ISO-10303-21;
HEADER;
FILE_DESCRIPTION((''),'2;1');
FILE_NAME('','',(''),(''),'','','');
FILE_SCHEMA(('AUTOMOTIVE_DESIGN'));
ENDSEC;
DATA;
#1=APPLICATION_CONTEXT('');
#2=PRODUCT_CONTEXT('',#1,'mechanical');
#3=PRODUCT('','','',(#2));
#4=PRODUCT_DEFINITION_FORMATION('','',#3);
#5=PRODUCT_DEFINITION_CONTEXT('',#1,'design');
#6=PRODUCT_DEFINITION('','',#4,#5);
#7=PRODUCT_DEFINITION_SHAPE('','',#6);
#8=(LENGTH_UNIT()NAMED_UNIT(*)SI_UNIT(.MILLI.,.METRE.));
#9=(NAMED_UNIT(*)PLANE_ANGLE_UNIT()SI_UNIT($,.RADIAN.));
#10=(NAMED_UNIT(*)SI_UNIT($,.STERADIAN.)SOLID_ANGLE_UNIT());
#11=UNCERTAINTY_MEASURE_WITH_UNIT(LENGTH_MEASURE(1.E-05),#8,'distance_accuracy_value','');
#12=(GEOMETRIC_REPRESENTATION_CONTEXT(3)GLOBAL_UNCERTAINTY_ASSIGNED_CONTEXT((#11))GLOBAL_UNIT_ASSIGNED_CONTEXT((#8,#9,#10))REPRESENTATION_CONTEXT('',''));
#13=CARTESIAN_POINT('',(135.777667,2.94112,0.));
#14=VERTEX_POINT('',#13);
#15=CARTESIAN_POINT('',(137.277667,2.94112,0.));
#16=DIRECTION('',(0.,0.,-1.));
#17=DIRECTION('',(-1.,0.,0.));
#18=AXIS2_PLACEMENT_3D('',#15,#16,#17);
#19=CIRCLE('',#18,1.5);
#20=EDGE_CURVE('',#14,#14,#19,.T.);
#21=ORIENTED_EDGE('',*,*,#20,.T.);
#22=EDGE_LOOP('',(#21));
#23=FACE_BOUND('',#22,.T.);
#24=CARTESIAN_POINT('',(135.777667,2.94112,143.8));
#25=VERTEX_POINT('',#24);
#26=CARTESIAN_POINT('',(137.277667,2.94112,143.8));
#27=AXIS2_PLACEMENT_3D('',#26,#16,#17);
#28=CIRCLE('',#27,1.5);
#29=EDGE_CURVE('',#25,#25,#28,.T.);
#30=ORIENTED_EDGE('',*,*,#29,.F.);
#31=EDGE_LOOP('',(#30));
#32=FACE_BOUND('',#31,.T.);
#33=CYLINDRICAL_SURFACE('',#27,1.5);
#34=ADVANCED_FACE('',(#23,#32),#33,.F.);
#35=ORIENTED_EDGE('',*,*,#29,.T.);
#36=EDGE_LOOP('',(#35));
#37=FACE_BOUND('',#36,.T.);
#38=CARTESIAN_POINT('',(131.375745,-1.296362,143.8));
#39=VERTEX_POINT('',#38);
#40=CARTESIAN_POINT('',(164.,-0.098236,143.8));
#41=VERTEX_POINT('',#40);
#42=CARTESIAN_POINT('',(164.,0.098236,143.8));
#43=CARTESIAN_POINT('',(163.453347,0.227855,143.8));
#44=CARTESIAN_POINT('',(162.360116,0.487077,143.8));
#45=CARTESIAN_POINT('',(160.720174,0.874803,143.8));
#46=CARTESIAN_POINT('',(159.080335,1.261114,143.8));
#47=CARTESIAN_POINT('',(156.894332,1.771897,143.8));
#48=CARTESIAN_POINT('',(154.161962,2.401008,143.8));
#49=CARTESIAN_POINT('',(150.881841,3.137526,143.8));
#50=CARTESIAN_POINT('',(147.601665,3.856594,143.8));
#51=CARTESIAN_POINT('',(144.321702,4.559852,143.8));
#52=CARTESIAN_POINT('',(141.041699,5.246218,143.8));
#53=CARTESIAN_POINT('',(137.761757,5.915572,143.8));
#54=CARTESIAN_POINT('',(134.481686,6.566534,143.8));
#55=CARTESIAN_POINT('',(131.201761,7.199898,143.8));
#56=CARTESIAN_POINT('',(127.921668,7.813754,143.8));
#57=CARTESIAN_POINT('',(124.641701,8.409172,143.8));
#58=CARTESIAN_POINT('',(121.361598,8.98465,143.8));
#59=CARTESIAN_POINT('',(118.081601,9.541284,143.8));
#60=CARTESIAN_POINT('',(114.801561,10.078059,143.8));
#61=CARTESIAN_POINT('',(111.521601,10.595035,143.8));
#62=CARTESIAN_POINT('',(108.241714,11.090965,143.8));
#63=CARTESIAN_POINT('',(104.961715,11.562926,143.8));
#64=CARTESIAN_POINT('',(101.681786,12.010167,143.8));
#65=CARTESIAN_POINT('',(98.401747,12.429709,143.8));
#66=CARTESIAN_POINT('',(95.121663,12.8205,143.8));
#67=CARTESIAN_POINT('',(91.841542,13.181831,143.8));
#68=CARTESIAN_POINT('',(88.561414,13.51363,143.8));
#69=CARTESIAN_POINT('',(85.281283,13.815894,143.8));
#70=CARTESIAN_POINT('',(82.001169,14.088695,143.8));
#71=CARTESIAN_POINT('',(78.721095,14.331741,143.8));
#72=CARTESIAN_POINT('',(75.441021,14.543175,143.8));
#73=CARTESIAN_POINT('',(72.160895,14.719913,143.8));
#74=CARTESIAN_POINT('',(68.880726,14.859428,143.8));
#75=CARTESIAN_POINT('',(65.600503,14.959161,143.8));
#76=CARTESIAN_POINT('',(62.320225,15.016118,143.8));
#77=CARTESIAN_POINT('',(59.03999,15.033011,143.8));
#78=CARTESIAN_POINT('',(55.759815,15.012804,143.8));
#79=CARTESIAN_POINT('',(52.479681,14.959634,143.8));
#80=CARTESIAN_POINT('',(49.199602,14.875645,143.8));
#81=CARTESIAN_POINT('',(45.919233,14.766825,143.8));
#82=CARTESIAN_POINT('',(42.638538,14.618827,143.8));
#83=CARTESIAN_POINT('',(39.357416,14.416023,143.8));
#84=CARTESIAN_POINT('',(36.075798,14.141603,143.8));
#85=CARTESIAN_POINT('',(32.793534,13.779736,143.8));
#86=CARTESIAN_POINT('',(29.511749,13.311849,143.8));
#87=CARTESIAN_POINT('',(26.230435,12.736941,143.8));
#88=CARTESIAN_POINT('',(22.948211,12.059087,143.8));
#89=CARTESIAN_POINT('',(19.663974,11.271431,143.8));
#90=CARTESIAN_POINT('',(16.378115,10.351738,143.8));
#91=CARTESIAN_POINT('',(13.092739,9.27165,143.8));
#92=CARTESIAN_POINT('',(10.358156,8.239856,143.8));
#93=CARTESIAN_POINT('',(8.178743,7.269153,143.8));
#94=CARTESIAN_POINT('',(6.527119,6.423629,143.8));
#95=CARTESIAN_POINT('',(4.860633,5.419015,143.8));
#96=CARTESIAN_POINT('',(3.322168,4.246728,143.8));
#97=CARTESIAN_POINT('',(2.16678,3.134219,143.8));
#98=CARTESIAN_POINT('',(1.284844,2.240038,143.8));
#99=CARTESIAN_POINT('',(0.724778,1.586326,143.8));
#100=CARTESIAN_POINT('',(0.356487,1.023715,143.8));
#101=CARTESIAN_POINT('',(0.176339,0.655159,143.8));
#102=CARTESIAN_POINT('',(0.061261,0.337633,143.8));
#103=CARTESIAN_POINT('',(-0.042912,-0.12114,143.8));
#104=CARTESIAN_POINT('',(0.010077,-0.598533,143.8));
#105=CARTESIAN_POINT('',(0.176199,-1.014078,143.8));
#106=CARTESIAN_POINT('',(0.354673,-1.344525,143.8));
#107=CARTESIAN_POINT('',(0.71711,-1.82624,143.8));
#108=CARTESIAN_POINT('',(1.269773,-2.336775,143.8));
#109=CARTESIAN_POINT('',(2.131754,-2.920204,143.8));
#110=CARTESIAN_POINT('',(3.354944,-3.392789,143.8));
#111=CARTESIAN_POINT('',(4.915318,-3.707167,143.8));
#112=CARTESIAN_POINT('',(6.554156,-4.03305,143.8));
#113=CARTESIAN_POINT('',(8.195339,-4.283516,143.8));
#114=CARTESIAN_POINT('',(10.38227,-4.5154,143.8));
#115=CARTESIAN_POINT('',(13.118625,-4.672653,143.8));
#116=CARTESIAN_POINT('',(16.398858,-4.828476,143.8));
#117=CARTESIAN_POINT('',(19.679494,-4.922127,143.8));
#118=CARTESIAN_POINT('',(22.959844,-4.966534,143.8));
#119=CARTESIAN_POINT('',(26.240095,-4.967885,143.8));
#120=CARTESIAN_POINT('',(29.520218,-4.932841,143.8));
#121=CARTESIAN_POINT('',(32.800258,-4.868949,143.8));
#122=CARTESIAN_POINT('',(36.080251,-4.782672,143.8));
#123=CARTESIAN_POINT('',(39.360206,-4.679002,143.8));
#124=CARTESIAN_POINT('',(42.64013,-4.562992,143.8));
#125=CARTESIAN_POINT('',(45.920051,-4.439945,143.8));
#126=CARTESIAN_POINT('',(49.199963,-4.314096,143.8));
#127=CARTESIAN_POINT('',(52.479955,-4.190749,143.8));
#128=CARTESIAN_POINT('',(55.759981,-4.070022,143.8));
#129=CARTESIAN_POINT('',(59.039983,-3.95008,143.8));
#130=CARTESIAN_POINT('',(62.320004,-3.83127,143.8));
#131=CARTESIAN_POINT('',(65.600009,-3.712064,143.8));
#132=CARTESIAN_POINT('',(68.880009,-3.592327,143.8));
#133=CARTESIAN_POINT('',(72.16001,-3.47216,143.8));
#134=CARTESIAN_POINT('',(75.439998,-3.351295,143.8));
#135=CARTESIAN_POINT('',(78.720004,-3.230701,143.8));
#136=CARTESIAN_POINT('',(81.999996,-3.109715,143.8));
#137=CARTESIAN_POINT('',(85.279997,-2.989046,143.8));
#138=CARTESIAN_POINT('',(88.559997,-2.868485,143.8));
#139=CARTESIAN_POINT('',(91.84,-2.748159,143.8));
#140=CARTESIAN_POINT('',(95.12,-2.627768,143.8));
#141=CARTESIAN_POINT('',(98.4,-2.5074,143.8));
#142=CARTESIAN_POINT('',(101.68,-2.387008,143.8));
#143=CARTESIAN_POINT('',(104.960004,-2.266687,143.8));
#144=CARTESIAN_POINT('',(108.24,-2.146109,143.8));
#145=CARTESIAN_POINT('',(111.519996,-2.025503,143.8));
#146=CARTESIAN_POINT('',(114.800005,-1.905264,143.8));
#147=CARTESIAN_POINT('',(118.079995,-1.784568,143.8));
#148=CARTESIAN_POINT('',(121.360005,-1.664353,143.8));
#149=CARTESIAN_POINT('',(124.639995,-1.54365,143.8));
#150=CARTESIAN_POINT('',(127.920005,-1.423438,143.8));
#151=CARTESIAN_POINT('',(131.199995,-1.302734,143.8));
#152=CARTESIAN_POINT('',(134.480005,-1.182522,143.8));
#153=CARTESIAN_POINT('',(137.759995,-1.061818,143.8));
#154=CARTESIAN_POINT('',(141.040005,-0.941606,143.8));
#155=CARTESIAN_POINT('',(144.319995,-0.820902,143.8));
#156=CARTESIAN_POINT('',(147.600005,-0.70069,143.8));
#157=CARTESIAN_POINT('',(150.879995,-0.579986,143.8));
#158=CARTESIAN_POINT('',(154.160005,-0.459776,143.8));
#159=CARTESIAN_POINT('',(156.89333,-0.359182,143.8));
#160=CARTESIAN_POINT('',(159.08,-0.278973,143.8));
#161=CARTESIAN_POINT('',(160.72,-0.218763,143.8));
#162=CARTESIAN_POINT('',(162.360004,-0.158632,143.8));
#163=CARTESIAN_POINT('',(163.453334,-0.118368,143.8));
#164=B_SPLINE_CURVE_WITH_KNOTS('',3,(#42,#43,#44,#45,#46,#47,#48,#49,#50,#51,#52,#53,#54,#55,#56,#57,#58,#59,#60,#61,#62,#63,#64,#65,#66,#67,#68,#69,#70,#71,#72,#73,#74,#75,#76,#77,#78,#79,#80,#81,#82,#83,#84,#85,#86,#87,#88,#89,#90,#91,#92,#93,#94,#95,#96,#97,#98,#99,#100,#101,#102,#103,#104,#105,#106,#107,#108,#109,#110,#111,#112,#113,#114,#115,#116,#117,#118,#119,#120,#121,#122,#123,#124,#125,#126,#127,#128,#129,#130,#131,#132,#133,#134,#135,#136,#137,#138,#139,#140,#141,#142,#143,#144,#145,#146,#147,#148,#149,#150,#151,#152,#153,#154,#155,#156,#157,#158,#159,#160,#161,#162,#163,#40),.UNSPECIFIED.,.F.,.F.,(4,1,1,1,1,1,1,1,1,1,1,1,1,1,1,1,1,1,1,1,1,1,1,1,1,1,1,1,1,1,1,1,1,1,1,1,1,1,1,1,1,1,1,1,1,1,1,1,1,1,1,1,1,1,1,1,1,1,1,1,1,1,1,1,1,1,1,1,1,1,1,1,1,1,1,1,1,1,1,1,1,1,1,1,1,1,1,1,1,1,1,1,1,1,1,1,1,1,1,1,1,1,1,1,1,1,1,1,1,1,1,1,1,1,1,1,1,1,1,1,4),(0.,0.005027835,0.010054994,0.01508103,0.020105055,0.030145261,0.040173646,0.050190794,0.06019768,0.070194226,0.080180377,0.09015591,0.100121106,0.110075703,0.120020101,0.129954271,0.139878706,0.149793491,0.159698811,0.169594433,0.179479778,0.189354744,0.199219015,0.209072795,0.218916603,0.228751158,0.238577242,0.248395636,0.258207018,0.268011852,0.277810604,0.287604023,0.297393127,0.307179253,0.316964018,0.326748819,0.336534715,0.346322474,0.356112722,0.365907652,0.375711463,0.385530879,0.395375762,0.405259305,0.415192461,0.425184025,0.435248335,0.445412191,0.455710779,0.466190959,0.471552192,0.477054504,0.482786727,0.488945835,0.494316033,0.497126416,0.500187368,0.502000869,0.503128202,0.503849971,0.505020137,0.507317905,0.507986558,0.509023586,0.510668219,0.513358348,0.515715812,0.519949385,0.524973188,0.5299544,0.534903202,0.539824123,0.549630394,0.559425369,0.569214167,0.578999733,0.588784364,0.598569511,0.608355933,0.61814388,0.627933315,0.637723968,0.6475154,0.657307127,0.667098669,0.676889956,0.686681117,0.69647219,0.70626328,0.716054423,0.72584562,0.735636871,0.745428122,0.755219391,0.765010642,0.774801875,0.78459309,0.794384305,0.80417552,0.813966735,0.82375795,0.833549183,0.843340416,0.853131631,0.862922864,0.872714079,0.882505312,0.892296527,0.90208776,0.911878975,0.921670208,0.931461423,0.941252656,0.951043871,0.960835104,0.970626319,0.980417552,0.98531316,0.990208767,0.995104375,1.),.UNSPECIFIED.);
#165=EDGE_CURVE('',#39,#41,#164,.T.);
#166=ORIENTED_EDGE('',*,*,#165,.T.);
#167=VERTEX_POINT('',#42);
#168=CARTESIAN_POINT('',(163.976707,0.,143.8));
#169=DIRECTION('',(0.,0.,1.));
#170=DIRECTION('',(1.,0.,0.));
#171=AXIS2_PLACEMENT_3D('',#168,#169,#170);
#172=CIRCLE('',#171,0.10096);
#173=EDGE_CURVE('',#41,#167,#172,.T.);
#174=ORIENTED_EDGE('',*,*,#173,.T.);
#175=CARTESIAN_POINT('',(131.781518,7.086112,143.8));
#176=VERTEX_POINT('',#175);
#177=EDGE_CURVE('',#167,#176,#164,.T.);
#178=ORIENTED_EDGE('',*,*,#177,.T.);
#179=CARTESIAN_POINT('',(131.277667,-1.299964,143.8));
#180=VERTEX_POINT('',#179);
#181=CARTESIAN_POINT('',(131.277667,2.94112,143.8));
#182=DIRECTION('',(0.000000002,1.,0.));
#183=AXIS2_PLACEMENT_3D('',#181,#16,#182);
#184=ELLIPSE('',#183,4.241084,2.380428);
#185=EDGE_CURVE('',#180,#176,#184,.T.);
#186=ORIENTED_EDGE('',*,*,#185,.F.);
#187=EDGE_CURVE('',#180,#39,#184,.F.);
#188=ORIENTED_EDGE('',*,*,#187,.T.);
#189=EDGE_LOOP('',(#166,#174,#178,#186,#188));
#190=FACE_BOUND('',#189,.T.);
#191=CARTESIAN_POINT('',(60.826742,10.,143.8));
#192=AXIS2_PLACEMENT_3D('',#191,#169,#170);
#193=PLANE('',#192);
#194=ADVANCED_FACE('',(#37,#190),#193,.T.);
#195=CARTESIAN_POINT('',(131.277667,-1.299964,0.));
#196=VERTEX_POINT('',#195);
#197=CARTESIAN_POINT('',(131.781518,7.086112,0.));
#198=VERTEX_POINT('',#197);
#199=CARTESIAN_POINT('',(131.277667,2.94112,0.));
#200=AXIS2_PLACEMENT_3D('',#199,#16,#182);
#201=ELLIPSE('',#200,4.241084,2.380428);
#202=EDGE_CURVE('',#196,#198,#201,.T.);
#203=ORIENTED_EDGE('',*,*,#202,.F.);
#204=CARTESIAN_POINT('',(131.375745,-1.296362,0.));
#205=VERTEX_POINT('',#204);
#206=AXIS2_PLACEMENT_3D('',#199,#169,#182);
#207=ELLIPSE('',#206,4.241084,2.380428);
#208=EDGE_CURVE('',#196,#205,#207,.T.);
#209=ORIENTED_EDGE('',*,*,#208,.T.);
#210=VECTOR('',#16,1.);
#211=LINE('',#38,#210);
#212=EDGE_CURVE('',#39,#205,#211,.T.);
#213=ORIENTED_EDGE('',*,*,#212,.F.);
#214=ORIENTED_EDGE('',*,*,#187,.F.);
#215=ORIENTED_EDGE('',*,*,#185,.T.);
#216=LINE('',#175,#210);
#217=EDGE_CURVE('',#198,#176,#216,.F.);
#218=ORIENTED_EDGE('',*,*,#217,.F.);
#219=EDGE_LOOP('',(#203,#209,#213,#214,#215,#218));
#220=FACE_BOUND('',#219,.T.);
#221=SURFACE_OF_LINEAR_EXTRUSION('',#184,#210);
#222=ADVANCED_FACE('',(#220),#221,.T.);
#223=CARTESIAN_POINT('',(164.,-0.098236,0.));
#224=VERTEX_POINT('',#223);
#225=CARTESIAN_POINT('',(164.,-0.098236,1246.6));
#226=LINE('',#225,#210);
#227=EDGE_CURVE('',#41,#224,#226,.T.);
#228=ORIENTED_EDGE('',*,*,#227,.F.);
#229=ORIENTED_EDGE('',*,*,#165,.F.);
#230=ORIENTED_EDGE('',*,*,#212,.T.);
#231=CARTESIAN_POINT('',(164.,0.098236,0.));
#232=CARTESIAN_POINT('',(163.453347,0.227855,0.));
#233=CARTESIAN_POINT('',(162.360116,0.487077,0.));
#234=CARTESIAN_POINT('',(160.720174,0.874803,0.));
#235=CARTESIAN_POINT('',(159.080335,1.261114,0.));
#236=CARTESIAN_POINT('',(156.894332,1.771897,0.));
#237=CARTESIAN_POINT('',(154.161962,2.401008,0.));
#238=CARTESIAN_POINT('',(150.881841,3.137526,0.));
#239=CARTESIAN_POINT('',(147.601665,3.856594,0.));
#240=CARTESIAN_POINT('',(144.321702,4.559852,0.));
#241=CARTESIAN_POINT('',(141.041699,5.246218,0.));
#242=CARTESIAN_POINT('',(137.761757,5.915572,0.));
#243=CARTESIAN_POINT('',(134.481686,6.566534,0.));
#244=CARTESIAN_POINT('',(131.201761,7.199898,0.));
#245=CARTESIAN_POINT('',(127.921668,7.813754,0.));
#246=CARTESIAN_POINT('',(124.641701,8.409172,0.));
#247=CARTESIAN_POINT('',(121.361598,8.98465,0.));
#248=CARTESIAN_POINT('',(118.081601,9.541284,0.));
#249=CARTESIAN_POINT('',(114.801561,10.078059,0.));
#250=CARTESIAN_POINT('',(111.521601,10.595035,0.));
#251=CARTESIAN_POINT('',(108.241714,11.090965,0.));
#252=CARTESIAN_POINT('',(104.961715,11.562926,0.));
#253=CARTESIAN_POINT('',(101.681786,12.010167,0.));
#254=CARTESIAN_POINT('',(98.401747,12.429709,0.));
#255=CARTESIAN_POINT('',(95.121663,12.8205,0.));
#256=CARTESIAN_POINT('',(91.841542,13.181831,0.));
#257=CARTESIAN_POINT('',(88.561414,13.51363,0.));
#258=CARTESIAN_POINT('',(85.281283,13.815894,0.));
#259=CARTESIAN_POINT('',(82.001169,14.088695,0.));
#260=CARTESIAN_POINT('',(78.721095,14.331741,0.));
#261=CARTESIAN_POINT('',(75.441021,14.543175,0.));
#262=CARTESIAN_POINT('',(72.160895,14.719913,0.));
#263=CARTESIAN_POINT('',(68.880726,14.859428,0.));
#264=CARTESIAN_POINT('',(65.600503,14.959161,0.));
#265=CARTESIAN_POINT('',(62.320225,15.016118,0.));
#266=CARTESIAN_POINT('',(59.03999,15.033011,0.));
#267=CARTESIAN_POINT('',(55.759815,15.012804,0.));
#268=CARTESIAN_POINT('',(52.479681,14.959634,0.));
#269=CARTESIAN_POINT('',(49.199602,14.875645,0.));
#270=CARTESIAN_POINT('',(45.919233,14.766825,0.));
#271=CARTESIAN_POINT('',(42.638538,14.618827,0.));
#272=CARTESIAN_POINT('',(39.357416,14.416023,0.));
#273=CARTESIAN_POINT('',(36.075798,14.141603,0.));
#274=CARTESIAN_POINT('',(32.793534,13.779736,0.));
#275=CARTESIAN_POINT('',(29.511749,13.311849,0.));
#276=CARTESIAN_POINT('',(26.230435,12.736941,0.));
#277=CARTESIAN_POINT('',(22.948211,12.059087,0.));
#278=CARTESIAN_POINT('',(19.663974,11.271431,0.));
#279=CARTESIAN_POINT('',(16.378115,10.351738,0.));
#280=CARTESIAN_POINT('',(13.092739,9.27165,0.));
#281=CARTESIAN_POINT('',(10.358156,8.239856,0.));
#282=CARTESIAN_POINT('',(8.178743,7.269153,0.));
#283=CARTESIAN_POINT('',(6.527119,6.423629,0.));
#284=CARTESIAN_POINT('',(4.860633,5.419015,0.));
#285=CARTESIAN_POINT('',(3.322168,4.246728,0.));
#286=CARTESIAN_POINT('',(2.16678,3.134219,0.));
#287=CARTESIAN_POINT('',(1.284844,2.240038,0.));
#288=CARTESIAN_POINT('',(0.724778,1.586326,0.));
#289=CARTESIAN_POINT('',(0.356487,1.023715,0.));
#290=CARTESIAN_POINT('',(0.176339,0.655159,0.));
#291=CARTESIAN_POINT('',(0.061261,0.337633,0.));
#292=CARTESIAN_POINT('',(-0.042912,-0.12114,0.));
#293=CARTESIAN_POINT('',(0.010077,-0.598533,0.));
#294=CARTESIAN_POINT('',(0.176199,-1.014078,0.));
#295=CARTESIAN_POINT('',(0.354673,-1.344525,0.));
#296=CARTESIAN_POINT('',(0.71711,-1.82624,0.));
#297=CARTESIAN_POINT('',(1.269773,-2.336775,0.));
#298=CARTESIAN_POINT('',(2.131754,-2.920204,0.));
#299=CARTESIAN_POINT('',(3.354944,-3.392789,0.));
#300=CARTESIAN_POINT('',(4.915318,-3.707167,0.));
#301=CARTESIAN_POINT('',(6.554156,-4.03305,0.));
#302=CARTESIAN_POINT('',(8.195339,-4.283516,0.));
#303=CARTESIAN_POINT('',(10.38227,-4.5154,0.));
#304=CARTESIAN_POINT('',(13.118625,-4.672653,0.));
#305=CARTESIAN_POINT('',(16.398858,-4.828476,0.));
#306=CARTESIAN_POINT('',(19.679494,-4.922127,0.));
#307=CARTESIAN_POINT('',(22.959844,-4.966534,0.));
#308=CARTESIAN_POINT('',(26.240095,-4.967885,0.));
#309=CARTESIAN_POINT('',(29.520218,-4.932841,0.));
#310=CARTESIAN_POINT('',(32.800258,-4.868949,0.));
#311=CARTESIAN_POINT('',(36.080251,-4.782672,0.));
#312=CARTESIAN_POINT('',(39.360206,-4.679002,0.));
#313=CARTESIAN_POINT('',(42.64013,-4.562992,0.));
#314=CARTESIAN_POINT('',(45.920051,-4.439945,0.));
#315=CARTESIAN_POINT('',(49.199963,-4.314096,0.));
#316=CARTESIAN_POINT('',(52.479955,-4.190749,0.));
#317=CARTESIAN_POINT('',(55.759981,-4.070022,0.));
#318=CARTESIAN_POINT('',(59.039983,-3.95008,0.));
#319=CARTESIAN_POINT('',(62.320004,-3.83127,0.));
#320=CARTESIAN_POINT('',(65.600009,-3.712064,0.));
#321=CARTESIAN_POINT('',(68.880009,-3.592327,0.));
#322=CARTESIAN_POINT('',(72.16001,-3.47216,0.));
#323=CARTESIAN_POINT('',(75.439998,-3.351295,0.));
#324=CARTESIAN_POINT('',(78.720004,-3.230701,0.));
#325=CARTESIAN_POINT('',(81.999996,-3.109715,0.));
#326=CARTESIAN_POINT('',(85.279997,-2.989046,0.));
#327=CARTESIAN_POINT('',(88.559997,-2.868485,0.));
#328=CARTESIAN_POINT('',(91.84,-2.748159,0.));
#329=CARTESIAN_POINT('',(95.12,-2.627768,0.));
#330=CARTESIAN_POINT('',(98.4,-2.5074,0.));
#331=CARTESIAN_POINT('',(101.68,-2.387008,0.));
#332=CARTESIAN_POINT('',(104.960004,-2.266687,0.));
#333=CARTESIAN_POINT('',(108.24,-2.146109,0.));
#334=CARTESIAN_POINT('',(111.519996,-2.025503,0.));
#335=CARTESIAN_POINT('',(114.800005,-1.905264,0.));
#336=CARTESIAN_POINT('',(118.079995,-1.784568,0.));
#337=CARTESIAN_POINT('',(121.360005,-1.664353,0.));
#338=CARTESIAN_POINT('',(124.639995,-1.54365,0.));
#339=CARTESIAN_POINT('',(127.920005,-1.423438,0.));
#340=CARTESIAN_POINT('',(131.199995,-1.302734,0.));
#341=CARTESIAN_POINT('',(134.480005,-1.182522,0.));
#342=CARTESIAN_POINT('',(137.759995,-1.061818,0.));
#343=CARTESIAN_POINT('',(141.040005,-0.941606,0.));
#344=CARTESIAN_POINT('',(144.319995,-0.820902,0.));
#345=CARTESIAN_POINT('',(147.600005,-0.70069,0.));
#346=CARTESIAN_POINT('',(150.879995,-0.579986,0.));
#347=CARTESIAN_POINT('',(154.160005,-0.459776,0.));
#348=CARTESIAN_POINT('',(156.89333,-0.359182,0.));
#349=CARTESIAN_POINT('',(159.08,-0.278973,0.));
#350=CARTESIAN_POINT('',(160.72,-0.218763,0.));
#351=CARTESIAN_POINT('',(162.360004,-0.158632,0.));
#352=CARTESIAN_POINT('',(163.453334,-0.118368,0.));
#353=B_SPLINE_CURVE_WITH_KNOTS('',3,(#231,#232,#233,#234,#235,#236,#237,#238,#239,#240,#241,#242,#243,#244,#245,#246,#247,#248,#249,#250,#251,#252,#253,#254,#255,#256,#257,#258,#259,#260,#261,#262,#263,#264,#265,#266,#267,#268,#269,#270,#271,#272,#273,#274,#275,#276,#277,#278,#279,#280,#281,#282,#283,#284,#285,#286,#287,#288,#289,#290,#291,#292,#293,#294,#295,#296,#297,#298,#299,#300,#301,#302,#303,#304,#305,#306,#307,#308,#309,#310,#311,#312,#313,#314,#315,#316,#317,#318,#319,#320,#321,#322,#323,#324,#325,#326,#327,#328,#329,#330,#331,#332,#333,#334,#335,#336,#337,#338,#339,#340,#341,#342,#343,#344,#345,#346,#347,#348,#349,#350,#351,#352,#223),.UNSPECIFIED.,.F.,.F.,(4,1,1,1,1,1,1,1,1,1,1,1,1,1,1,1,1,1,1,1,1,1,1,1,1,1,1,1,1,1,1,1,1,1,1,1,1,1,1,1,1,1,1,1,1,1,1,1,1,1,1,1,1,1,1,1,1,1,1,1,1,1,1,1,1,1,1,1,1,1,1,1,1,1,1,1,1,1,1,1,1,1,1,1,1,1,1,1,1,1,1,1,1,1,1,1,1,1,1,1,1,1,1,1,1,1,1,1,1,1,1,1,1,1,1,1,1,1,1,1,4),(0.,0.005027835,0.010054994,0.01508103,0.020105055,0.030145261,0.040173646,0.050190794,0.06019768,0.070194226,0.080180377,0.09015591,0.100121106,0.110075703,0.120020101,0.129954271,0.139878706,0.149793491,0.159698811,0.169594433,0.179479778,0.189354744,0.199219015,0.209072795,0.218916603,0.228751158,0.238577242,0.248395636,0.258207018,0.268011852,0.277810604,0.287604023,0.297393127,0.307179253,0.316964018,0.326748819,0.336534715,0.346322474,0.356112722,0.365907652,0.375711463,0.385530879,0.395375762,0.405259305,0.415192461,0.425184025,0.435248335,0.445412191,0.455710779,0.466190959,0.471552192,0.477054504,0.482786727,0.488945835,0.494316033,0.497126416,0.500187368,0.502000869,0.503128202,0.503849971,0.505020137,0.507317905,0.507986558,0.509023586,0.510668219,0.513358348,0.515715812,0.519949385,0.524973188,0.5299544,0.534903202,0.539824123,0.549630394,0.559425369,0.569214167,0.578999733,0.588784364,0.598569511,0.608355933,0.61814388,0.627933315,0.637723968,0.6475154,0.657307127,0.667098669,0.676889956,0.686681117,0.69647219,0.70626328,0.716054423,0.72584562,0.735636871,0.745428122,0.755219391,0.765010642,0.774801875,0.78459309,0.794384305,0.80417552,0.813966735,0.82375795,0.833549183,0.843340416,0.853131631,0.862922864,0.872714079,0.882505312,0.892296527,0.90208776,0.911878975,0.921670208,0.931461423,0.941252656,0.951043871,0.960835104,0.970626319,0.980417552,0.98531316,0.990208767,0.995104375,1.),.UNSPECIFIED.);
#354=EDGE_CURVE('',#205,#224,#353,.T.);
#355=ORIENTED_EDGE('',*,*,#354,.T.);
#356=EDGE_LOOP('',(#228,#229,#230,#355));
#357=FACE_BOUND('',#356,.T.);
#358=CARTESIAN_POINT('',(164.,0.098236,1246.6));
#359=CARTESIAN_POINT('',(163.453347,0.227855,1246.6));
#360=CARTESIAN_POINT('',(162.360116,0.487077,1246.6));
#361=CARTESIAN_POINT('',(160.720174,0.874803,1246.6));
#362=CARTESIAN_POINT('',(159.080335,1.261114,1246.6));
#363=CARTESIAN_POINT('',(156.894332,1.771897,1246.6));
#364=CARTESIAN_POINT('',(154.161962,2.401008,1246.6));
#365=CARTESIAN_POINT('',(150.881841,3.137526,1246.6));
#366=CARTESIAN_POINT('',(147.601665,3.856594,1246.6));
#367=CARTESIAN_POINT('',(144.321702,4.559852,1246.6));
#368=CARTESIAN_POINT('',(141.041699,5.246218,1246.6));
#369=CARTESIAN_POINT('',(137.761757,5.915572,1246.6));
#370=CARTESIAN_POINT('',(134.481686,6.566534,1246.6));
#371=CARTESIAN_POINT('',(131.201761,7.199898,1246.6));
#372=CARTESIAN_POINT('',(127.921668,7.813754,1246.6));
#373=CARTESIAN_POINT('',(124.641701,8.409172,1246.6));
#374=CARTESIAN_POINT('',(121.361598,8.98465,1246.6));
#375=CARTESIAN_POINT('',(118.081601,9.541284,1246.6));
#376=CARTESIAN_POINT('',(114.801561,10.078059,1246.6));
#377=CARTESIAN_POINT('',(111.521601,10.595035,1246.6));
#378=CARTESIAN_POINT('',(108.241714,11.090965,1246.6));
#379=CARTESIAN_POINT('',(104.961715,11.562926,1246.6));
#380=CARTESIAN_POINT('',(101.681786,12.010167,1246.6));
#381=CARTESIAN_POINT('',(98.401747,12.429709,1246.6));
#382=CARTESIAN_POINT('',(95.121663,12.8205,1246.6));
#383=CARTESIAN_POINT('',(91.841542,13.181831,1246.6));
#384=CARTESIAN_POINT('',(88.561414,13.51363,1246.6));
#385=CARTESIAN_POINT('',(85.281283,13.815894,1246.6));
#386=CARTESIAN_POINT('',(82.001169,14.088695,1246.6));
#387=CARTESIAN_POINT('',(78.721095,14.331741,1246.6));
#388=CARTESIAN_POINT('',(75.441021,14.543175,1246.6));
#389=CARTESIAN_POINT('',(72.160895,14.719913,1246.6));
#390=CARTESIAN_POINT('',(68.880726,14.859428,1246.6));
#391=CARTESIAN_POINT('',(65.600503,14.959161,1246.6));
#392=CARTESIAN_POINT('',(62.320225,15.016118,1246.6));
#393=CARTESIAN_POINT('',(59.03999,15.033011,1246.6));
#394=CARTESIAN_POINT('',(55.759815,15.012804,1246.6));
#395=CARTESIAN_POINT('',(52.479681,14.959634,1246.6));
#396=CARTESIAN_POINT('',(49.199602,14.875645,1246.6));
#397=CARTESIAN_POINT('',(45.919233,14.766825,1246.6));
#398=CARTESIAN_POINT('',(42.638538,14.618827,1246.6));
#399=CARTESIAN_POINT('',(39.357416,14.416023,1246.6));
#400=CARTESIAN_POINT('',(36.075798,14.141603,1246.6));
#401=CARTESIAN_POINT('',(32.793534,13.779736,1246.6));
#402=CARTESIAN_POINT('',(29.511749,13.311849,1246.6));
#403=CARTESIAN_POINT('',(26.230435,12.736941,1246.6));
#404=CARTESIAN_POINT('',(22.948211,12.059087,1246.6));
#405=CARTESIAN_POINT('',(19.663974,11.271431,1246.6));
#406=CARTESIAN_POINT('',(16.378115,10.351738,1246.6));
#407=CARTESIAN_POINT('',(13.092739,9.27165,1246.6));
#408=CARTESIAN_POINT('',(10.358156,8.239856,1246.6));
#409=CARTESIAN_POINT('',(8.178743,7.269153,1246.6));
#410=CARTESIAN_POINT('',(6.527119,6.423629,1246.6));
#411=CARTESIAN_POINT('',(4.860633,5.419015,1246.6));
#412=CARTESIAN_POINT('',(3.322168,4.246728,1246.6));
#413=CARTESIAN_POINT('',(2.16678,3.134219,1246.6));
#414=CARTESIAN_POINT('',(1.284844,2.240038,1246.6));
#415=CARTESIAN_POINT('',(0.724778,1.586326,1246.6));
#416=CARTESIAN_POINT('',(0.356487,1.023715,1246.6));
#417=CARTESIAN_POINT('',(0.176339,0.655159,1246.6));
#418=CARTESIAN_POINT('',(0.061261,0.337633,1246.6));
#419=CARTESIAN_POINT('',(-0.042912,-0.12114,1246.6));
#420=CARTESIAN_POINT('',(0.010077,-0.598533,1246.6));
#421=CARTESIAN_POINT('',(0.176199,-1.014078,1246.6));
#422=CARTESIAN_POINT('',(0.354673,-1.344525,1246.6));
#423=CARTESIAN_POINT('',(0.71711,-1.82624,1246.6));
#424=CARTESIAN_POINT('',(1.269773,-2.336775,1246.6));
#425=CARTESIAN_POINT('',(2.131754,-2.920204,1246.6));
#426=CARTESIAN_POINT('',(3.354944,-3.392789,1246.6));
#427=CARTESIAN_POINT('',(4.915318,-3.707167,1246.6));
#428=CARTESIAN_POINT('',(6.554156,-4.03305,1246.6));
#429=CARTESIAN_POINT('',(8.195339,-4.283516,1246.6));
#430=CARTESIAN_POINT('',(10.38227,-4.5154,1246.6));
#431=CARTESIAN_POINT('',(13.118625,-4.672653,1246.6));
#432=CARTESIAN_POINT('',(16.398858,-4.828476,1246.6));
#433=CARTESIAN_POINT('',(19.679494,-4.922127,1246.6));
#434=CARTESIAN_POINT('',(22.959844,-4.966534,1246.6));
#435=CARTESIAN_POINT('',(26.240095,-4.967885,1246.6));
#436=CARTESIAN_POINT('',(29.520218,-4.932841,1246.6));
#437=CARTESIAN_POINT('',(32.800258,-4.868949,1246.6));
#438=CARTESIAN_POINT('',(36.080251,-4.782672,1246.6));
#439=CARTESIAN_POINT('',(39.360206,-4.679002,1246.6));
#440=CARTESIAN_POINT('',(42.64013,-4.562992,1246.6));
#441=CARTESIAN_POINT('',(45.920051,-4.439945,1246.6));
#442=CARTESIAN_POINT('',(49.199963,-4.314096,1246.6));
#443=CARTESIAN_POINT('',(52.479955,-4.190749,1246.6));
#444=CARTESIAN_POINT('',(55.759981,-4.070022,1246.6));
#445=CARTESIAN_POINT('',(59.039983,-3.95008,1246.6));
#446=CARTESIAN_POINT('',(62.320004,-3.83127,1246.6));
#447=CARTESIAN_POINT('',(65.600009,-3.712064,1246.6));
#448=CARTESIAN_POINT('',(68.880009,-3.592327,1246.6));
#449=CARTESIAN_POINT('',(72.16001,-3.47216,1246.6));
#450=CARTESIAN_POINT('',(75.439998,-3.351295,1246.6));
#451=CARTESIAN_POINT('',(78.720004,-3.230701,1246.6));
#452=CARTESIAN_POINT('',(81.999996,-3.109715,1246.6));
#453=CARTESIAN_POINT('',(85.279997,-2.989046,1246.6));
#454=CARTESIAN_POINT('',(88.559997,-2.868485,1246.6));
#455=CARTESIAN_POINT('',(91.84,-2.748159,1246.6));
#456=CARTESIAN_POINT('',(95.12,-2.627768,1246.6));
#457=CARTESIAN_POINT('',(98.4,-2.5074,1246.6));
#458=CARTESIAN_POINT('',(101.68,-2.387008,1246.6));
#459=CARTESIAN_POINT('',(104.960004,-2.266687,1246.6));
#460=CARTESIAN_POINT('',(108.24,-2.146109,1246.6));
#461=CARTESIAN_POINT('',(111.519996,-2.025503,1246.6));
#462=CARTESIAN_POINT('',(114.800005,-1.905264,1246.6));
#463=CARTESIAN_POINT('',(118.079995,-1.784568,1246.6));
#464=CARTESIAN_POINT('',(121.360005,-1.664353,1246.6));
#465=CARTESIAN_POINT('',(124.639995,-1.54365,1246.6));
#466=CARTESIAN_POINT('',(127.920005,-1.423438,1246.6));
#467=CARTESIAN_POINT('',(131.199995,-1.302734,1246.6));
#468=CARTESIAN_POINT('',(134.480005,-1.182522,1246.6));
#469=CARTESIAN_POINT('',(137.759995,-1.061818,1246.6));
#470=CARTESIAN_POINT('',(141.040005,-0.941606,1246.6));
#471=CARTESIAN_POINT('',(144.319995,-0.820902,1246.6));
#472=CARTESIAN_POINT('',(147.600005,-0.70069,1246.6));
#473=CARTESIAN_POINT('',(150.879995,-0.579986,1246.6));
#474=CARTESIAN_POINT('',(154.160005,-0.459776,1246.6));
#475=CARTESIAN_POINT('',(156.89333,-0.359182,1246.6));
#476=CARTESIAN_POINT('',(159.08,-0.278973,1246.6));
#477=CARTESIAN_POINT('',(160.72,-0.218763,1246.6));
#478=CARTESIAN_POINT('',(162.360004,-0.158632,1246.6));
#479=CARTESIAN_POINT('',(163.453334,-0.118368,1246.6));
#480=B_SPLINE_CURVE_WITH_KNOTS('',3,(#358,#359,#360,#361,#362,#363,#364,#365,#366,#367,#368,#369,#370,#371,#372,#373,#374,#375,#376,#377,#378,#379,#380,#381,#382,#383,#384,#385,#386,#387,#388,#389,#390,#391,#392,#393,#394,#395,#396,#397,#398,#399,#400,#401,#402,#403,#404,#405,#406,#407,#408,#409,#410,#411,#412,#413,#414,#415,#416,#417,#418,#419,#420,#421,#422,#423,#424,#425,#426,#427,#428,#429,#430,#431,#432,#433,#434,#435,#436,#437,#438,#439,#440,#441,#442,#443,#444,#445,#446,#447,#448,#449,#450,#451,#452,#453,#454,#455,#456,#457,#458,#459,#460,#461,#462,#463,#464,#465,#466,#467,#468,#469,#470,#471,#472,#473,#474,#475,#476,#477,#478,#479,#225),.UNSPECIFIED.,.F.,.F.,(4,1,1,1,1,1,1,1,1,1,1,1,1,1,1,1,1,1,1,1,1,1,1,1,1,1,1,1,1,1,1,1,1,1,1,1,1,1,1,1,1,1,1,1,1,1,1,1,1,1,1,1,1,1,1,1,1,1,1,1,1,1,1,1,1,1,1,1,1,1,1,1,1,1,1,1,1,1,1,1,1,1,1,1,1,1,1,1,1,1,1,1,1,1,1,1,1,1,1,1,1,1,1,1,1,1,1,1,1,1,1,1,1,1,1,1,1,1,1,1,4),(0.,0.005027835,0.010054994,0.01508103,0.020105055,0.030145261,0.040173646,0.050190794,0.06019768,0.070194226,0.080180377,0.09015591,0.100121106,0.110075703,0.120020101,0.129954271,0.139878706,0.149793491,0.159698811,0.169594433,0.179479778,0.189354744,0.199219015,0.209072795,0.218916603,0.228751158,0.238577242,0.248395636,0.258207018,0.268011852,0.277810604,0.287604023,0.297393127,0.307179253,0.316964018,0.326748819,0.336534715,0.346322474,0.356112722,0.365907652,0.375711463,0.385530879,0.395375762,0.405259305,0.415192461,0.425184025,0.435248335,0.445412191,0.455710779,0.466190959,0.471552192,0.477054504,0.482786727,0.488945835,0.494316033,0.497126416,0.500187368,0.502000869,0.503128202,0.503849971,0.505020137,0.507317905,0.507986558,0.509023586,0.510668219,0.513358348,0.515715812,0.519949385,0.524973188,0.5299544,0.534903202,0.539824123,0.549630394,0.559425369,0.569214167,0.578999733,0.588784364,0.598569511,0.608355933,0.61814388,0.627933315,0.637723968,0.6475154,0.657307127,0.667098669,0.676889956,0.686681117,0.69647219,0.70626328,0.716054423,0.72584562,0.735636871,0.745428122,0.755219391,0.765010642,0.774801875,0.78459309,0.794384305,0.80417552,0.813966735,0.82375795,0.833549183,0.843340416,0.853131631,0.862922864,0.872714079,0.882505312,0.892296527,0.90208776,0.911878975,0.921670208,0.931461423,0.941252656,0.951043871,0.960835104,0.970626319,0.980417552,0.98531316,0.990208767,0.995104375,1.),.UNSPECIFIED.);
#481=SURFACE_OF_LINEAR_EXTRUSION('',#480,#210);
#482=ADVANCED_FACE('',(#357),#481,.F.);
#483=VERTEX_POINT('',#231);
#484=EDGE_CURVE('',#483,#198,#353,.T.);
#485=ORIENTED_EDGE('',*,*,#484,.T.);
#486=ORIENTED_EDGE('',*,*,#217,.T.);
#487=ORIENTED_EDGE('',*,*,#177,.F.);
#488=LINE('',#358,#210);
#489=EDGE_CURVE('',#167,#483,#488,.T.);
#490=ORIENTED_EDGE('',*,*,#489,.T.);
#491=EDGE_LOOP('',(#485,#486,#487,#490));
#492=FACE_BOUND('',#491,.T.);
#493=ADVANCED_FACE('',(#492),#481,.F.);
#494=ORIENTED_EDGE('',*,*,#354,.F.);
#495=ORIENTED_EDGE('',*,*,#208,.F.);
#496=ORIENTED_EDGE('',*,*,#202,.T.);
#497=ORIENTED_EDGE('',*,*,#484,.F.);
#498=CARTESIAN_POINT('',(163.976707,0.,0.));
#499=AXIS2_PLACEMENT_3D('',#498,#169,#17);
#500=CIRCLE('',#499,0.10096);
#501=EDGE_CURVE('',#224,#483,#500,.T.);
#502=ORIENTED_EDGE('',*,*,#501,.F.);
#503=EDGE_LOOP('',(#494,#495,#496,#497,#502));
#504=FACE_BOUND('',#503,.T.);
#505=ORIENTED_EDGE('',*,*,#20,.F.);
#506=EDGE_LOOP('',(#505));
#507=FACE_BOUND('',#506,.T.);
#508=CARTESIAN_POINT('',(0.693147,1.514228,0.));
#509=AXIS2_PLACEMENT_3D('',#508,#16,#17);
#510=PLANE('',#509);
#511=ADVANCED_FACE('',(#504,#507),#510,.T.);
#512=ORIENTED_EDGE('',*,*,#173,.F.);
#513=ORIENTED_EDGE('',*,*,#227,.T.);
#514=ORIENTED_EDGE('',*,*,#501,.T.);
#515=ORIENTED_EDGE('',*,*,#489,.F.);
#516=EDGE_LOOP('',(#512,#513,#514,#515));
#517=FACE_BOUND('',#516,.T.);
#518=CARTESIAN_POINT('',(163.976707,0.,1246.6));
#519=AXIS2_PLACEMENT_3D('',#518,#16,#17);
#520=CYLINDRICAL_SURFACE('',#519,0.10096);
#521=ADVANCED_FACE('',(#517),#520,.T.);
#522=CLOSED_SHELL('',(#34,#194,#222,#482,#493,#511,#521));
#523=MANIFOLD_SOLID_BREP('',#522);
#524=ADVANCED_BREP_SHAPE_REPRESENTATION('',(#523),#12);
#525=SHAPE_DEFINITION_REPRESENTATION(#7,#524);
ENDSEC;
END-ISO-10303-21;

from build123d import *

# Parameters (mm, degrees)
BOSS_EXTRUDE1_DEPTH        = 1246.6
SKETCH3_W                  = 131.331771
SKETCH3_H                  = 32.627886
AILERON_CHORD_DEPTH        = 1246.6
AILERON_SPAN_DEPTH         = 10
AILERON_SPAN_DEPTH_BACK    = 10
SKETCH4_W                  = 171.070003
SKETCH4_H                  = 1110.639097
SKETCH5_R                  = 1.5
AILERON_SPAR_HOLE_DEPTH    = 219.292246
SKETCH6_RX                 = 4.241084
SKETCH6_RY                 = 2.380428
AILERON_LEADING_EDGE_DEPTH = 143.8


with BuildPart() as part:
    # Sketch2 → Boss-Extrude1 (new body)
    with BuildSketch(Plane.XY):
        with BuildLine():
            ThreePointArc((164, 0.098236), (164.077667, 0), (164, -0.098236))
            add(Edge.make_bspline(
                [(164, 0.098236), (163.453347, 0.227855), (162.360116, 0.487077), (160.720174, 0.874803), (159.080335, 1.261114), (156.894332, 1.771897), (154.161962, 2.401008), (150.881841, 3.137526), (147.601665, 3.856594), (144.321702, 4.559852), (141.041699, 5.246218), (137.761757, 5.915572), (134.481686, 6.566534), (131.201761, 7.199898), (127.921668, 7.813754), (124.641701, 8.409172), (121.361598, 8.98465), (118.081601, 9.541284), (114.801561, 10.078059), (111.521601, 10.595035), (108.241714, 11.090965), (104.961715, 11.562926), (101.681786, 12.010167), (98.401747, 12.429709), (95.121663, 12.8205), (91.841542, 13.181831), (88.561414, 13.51363), (85.281283, 13.815894), (82.001169, 14.088695), (78.721095, 14.331741), (75.441021, 14.543175), (72.160895, 14.719913), (68.880726, 14.859428), (65.600503, 14.959161), (62.320225, 15.016118), (59.03999, 15.033011), (55.759815, 15.012804), (52.479681, 14.959634), (49.199602, 14.875645), (45.919233, 14.766825), (42.638538, 14.618827), (39.357416, 14.416023), (36.075798, 14.141603), (32.793534, 13.779736), (29.511749, 13.311849), (26.230435, 12.736941), (22.948211, 12.059087), (19.663974, 11.271431), (16.378115, 10.351738), (13.092739, 9.27165), (10.358156, 8.239856), (8.178743, 7.269153), (6.527119, 6.423629), (4.860633, 5.419015), (3.322168, 4.246728), (2.16678, 3.134219), (1.284844, 2.240038), (0.724778, 1.586326), (0.356487, 1.023715), (0.176339, 0.655159), (0.061261, 0.337633), (-0.042912, -0.12114), (0.010077, -0.598533), (0.176199, -1.014078), (0.354673, -1.344525), (0.71711, -1.82624), (1.269773, -2.336775), (2.131754, -2.920204), (3.354944, -3.392789), (4.915318, -3.707167), (6.554156, -4.03305), (8.195339, -4.283516), (10.38227, -4.5154), (13.118625, -4.672653), (16.398858, -4.828476), (19.679494, -4.922127), (22.959844, -4.966534), (26.240095, -4.967885), (29.520218, -4.932841), (32.800258, -4.868949), (36.080251, -4.782672), (39.360206, -4.679002), (42.64013, -4.562992), (45.920051, -4.439945), (49.199963, -4.314096), (52.479955, -4.190749), (55.759981, -4.070022), (59.039983, -3.95008), (62.320004, -3.83127), (65.600009, -3.712064), (68.880009, -3.592327), (72.16001, -3.47216), (75.439998, -3.351295), (78.720004, -3.230701), (81.999996, -3.109715), (85.279997, -2.989046), (88.559997, -2.868485), (91.84, -2.748159), (95.12, -2.627768), (98.4, -2.5074), (101.68, -2.387008), (104.960004, -2.266687), (108.24, -2.146109), (111.519996, -2.025503), (114.800005, -1.905264), (118.079995, -1.784568), (121.360005, -1.664353), (124.639995, -1.54365), (127.920005, -1.423438), (131.199995, -1.302734), (134.480005, -1.182522), (137.759995, -1.061818), (141.040005, -0.941606), (144.319995, -0.820902), (147.600005, -0.70069), (150.879995, -0.579986), (154.160005, -0.459776), (156.89333, -0.359182), (159.08, -0.278973), (160.72, -0.218763), (162.360004, -0.158632), (163.453334, -0.118368), (164, -0.098236)],
                knots=[0, 0, 0, 0, 0.005028, 0.010055, 0.015081, 0.020105, 0.030145, 0.040174, 0.050191, 0.060198, 0.070194, 0.08018, 0.090156, 0.100121, 0.110076, 0.12002, 0.129954, 0.139879, 0.149793, 0.159699, 0.169594, 0.17948, 0.189355, 0.199219, 0.209073, 0.218917, 0.228751, 0.238577, 0.248396, 0.258207, 0.268012, 0.277811, 0.287604, 0.297393, 0.307179, 0.316964, 0.326749, 0.336535, 0.346322, 0.356113, 0.365908, 0.375711, 0.385531, 0.395376, 0.405259, 0.415192, 0.425184, 0.435248, 0.445412, 0.455711, 0.466191, 0.471552, 0.477055, 0.482787, 0.488946, 0.494316, 0.497126, 0.500187, 0.502001, 0.503128, 0.50385, 0.50502, 0.507318, 0.507987, 0.509024, 0.510668, 0.513358, 0.515716, 0.519949, 0.524973, 0.529954, 0.534903, 0.539824, 0.54963, 0.559425, 0.569214, 0.579, 0.588784, 0.59857, 0.608356, 0.618144, 0.627933, 0.637724, 0.647515, 0.657307, 0.667099, 0.67689, 0.686681, 0.696472, 0.706263, 0.716054, 0.725846, 0.735637, 0.745428, 0.755219, 0.765011, 0.774802, 0.784593, 0.794384, 0.804176, 0.813967, 0.823758, 0.833549, 0.84334, 0.853132, 0.862923, 0.872714, 0.882505, 0.892297, 0.902088, 0.911879, 0.92167, 0.931461, 0.941253, 0.951044, 0.960835, 0.970626, 0.980418, 0.985313, 0.990209, 0.995104, 1, 1, 1, 1], degree=3))
        make_face()
    extrude(amount=BOSS_EXTRUDE1_DEPTH)

    # Sketch3 → Aileron chord (cut)
    with BuildSketch(Plane.XY.offset(1246.6)):
        with Locations((65.611782, 9.808584)):
            Rectangle(SKETCH3_W, SKETCH3_H)
    extrude(amount=-AILERON_CHORD_DEPTH, mode=Mode.SUBTRACT)

    # Sketch4 → Aileron span (cut, two sides: drawn at the far end of the back side and taken through both)
    with BuildSketch(Plane(origin=(0, 0, 0), x_dir=(1, 0, 0), z_dir=(0, 1, 0)).offset(-AILERON_SPAN_DEPTH_BACK)):
        with Locations((146.361743, -699.119548)):
            Rectangle(SKETCH4_W, SKETCH4_H)
    extrude(amount=AILERON_SPAN_DEPTH + AILERON_SPAN_DEPTH_BACK, mode=Mode.SUBTRACT)

    # Sketch5 → Aileron spar hole (cut, through all)
    with BuildSketch(Plane(origin=(0, 0, 0), x_dir=(-1, 0, 0), z_dir=(0, 0, -1))):
        with Locations((-137.277667, 2.94112)):
            Circle(SKETCH5_R)
    extrude(amount=-AILERON_SPAR_HOLE_DEPTH, mode=Mode.SUBTRACT)

    # Sketch6 → Aileron leading edge (add)
    with BuildSketch(Plane(origin=(0, 0, 0), x_dir=(-1, 0, 0), z_dir=(0, 0, -1))):
        with Locations(Location((-131.277667, 2.94112), (0, 0, 90))):
            Ellipse(SKETCH6_RX, SKETCH6_RY)
    extrude(amount=-AILERON_LEADING_EDGE_DEPTH)


solid = part.part
